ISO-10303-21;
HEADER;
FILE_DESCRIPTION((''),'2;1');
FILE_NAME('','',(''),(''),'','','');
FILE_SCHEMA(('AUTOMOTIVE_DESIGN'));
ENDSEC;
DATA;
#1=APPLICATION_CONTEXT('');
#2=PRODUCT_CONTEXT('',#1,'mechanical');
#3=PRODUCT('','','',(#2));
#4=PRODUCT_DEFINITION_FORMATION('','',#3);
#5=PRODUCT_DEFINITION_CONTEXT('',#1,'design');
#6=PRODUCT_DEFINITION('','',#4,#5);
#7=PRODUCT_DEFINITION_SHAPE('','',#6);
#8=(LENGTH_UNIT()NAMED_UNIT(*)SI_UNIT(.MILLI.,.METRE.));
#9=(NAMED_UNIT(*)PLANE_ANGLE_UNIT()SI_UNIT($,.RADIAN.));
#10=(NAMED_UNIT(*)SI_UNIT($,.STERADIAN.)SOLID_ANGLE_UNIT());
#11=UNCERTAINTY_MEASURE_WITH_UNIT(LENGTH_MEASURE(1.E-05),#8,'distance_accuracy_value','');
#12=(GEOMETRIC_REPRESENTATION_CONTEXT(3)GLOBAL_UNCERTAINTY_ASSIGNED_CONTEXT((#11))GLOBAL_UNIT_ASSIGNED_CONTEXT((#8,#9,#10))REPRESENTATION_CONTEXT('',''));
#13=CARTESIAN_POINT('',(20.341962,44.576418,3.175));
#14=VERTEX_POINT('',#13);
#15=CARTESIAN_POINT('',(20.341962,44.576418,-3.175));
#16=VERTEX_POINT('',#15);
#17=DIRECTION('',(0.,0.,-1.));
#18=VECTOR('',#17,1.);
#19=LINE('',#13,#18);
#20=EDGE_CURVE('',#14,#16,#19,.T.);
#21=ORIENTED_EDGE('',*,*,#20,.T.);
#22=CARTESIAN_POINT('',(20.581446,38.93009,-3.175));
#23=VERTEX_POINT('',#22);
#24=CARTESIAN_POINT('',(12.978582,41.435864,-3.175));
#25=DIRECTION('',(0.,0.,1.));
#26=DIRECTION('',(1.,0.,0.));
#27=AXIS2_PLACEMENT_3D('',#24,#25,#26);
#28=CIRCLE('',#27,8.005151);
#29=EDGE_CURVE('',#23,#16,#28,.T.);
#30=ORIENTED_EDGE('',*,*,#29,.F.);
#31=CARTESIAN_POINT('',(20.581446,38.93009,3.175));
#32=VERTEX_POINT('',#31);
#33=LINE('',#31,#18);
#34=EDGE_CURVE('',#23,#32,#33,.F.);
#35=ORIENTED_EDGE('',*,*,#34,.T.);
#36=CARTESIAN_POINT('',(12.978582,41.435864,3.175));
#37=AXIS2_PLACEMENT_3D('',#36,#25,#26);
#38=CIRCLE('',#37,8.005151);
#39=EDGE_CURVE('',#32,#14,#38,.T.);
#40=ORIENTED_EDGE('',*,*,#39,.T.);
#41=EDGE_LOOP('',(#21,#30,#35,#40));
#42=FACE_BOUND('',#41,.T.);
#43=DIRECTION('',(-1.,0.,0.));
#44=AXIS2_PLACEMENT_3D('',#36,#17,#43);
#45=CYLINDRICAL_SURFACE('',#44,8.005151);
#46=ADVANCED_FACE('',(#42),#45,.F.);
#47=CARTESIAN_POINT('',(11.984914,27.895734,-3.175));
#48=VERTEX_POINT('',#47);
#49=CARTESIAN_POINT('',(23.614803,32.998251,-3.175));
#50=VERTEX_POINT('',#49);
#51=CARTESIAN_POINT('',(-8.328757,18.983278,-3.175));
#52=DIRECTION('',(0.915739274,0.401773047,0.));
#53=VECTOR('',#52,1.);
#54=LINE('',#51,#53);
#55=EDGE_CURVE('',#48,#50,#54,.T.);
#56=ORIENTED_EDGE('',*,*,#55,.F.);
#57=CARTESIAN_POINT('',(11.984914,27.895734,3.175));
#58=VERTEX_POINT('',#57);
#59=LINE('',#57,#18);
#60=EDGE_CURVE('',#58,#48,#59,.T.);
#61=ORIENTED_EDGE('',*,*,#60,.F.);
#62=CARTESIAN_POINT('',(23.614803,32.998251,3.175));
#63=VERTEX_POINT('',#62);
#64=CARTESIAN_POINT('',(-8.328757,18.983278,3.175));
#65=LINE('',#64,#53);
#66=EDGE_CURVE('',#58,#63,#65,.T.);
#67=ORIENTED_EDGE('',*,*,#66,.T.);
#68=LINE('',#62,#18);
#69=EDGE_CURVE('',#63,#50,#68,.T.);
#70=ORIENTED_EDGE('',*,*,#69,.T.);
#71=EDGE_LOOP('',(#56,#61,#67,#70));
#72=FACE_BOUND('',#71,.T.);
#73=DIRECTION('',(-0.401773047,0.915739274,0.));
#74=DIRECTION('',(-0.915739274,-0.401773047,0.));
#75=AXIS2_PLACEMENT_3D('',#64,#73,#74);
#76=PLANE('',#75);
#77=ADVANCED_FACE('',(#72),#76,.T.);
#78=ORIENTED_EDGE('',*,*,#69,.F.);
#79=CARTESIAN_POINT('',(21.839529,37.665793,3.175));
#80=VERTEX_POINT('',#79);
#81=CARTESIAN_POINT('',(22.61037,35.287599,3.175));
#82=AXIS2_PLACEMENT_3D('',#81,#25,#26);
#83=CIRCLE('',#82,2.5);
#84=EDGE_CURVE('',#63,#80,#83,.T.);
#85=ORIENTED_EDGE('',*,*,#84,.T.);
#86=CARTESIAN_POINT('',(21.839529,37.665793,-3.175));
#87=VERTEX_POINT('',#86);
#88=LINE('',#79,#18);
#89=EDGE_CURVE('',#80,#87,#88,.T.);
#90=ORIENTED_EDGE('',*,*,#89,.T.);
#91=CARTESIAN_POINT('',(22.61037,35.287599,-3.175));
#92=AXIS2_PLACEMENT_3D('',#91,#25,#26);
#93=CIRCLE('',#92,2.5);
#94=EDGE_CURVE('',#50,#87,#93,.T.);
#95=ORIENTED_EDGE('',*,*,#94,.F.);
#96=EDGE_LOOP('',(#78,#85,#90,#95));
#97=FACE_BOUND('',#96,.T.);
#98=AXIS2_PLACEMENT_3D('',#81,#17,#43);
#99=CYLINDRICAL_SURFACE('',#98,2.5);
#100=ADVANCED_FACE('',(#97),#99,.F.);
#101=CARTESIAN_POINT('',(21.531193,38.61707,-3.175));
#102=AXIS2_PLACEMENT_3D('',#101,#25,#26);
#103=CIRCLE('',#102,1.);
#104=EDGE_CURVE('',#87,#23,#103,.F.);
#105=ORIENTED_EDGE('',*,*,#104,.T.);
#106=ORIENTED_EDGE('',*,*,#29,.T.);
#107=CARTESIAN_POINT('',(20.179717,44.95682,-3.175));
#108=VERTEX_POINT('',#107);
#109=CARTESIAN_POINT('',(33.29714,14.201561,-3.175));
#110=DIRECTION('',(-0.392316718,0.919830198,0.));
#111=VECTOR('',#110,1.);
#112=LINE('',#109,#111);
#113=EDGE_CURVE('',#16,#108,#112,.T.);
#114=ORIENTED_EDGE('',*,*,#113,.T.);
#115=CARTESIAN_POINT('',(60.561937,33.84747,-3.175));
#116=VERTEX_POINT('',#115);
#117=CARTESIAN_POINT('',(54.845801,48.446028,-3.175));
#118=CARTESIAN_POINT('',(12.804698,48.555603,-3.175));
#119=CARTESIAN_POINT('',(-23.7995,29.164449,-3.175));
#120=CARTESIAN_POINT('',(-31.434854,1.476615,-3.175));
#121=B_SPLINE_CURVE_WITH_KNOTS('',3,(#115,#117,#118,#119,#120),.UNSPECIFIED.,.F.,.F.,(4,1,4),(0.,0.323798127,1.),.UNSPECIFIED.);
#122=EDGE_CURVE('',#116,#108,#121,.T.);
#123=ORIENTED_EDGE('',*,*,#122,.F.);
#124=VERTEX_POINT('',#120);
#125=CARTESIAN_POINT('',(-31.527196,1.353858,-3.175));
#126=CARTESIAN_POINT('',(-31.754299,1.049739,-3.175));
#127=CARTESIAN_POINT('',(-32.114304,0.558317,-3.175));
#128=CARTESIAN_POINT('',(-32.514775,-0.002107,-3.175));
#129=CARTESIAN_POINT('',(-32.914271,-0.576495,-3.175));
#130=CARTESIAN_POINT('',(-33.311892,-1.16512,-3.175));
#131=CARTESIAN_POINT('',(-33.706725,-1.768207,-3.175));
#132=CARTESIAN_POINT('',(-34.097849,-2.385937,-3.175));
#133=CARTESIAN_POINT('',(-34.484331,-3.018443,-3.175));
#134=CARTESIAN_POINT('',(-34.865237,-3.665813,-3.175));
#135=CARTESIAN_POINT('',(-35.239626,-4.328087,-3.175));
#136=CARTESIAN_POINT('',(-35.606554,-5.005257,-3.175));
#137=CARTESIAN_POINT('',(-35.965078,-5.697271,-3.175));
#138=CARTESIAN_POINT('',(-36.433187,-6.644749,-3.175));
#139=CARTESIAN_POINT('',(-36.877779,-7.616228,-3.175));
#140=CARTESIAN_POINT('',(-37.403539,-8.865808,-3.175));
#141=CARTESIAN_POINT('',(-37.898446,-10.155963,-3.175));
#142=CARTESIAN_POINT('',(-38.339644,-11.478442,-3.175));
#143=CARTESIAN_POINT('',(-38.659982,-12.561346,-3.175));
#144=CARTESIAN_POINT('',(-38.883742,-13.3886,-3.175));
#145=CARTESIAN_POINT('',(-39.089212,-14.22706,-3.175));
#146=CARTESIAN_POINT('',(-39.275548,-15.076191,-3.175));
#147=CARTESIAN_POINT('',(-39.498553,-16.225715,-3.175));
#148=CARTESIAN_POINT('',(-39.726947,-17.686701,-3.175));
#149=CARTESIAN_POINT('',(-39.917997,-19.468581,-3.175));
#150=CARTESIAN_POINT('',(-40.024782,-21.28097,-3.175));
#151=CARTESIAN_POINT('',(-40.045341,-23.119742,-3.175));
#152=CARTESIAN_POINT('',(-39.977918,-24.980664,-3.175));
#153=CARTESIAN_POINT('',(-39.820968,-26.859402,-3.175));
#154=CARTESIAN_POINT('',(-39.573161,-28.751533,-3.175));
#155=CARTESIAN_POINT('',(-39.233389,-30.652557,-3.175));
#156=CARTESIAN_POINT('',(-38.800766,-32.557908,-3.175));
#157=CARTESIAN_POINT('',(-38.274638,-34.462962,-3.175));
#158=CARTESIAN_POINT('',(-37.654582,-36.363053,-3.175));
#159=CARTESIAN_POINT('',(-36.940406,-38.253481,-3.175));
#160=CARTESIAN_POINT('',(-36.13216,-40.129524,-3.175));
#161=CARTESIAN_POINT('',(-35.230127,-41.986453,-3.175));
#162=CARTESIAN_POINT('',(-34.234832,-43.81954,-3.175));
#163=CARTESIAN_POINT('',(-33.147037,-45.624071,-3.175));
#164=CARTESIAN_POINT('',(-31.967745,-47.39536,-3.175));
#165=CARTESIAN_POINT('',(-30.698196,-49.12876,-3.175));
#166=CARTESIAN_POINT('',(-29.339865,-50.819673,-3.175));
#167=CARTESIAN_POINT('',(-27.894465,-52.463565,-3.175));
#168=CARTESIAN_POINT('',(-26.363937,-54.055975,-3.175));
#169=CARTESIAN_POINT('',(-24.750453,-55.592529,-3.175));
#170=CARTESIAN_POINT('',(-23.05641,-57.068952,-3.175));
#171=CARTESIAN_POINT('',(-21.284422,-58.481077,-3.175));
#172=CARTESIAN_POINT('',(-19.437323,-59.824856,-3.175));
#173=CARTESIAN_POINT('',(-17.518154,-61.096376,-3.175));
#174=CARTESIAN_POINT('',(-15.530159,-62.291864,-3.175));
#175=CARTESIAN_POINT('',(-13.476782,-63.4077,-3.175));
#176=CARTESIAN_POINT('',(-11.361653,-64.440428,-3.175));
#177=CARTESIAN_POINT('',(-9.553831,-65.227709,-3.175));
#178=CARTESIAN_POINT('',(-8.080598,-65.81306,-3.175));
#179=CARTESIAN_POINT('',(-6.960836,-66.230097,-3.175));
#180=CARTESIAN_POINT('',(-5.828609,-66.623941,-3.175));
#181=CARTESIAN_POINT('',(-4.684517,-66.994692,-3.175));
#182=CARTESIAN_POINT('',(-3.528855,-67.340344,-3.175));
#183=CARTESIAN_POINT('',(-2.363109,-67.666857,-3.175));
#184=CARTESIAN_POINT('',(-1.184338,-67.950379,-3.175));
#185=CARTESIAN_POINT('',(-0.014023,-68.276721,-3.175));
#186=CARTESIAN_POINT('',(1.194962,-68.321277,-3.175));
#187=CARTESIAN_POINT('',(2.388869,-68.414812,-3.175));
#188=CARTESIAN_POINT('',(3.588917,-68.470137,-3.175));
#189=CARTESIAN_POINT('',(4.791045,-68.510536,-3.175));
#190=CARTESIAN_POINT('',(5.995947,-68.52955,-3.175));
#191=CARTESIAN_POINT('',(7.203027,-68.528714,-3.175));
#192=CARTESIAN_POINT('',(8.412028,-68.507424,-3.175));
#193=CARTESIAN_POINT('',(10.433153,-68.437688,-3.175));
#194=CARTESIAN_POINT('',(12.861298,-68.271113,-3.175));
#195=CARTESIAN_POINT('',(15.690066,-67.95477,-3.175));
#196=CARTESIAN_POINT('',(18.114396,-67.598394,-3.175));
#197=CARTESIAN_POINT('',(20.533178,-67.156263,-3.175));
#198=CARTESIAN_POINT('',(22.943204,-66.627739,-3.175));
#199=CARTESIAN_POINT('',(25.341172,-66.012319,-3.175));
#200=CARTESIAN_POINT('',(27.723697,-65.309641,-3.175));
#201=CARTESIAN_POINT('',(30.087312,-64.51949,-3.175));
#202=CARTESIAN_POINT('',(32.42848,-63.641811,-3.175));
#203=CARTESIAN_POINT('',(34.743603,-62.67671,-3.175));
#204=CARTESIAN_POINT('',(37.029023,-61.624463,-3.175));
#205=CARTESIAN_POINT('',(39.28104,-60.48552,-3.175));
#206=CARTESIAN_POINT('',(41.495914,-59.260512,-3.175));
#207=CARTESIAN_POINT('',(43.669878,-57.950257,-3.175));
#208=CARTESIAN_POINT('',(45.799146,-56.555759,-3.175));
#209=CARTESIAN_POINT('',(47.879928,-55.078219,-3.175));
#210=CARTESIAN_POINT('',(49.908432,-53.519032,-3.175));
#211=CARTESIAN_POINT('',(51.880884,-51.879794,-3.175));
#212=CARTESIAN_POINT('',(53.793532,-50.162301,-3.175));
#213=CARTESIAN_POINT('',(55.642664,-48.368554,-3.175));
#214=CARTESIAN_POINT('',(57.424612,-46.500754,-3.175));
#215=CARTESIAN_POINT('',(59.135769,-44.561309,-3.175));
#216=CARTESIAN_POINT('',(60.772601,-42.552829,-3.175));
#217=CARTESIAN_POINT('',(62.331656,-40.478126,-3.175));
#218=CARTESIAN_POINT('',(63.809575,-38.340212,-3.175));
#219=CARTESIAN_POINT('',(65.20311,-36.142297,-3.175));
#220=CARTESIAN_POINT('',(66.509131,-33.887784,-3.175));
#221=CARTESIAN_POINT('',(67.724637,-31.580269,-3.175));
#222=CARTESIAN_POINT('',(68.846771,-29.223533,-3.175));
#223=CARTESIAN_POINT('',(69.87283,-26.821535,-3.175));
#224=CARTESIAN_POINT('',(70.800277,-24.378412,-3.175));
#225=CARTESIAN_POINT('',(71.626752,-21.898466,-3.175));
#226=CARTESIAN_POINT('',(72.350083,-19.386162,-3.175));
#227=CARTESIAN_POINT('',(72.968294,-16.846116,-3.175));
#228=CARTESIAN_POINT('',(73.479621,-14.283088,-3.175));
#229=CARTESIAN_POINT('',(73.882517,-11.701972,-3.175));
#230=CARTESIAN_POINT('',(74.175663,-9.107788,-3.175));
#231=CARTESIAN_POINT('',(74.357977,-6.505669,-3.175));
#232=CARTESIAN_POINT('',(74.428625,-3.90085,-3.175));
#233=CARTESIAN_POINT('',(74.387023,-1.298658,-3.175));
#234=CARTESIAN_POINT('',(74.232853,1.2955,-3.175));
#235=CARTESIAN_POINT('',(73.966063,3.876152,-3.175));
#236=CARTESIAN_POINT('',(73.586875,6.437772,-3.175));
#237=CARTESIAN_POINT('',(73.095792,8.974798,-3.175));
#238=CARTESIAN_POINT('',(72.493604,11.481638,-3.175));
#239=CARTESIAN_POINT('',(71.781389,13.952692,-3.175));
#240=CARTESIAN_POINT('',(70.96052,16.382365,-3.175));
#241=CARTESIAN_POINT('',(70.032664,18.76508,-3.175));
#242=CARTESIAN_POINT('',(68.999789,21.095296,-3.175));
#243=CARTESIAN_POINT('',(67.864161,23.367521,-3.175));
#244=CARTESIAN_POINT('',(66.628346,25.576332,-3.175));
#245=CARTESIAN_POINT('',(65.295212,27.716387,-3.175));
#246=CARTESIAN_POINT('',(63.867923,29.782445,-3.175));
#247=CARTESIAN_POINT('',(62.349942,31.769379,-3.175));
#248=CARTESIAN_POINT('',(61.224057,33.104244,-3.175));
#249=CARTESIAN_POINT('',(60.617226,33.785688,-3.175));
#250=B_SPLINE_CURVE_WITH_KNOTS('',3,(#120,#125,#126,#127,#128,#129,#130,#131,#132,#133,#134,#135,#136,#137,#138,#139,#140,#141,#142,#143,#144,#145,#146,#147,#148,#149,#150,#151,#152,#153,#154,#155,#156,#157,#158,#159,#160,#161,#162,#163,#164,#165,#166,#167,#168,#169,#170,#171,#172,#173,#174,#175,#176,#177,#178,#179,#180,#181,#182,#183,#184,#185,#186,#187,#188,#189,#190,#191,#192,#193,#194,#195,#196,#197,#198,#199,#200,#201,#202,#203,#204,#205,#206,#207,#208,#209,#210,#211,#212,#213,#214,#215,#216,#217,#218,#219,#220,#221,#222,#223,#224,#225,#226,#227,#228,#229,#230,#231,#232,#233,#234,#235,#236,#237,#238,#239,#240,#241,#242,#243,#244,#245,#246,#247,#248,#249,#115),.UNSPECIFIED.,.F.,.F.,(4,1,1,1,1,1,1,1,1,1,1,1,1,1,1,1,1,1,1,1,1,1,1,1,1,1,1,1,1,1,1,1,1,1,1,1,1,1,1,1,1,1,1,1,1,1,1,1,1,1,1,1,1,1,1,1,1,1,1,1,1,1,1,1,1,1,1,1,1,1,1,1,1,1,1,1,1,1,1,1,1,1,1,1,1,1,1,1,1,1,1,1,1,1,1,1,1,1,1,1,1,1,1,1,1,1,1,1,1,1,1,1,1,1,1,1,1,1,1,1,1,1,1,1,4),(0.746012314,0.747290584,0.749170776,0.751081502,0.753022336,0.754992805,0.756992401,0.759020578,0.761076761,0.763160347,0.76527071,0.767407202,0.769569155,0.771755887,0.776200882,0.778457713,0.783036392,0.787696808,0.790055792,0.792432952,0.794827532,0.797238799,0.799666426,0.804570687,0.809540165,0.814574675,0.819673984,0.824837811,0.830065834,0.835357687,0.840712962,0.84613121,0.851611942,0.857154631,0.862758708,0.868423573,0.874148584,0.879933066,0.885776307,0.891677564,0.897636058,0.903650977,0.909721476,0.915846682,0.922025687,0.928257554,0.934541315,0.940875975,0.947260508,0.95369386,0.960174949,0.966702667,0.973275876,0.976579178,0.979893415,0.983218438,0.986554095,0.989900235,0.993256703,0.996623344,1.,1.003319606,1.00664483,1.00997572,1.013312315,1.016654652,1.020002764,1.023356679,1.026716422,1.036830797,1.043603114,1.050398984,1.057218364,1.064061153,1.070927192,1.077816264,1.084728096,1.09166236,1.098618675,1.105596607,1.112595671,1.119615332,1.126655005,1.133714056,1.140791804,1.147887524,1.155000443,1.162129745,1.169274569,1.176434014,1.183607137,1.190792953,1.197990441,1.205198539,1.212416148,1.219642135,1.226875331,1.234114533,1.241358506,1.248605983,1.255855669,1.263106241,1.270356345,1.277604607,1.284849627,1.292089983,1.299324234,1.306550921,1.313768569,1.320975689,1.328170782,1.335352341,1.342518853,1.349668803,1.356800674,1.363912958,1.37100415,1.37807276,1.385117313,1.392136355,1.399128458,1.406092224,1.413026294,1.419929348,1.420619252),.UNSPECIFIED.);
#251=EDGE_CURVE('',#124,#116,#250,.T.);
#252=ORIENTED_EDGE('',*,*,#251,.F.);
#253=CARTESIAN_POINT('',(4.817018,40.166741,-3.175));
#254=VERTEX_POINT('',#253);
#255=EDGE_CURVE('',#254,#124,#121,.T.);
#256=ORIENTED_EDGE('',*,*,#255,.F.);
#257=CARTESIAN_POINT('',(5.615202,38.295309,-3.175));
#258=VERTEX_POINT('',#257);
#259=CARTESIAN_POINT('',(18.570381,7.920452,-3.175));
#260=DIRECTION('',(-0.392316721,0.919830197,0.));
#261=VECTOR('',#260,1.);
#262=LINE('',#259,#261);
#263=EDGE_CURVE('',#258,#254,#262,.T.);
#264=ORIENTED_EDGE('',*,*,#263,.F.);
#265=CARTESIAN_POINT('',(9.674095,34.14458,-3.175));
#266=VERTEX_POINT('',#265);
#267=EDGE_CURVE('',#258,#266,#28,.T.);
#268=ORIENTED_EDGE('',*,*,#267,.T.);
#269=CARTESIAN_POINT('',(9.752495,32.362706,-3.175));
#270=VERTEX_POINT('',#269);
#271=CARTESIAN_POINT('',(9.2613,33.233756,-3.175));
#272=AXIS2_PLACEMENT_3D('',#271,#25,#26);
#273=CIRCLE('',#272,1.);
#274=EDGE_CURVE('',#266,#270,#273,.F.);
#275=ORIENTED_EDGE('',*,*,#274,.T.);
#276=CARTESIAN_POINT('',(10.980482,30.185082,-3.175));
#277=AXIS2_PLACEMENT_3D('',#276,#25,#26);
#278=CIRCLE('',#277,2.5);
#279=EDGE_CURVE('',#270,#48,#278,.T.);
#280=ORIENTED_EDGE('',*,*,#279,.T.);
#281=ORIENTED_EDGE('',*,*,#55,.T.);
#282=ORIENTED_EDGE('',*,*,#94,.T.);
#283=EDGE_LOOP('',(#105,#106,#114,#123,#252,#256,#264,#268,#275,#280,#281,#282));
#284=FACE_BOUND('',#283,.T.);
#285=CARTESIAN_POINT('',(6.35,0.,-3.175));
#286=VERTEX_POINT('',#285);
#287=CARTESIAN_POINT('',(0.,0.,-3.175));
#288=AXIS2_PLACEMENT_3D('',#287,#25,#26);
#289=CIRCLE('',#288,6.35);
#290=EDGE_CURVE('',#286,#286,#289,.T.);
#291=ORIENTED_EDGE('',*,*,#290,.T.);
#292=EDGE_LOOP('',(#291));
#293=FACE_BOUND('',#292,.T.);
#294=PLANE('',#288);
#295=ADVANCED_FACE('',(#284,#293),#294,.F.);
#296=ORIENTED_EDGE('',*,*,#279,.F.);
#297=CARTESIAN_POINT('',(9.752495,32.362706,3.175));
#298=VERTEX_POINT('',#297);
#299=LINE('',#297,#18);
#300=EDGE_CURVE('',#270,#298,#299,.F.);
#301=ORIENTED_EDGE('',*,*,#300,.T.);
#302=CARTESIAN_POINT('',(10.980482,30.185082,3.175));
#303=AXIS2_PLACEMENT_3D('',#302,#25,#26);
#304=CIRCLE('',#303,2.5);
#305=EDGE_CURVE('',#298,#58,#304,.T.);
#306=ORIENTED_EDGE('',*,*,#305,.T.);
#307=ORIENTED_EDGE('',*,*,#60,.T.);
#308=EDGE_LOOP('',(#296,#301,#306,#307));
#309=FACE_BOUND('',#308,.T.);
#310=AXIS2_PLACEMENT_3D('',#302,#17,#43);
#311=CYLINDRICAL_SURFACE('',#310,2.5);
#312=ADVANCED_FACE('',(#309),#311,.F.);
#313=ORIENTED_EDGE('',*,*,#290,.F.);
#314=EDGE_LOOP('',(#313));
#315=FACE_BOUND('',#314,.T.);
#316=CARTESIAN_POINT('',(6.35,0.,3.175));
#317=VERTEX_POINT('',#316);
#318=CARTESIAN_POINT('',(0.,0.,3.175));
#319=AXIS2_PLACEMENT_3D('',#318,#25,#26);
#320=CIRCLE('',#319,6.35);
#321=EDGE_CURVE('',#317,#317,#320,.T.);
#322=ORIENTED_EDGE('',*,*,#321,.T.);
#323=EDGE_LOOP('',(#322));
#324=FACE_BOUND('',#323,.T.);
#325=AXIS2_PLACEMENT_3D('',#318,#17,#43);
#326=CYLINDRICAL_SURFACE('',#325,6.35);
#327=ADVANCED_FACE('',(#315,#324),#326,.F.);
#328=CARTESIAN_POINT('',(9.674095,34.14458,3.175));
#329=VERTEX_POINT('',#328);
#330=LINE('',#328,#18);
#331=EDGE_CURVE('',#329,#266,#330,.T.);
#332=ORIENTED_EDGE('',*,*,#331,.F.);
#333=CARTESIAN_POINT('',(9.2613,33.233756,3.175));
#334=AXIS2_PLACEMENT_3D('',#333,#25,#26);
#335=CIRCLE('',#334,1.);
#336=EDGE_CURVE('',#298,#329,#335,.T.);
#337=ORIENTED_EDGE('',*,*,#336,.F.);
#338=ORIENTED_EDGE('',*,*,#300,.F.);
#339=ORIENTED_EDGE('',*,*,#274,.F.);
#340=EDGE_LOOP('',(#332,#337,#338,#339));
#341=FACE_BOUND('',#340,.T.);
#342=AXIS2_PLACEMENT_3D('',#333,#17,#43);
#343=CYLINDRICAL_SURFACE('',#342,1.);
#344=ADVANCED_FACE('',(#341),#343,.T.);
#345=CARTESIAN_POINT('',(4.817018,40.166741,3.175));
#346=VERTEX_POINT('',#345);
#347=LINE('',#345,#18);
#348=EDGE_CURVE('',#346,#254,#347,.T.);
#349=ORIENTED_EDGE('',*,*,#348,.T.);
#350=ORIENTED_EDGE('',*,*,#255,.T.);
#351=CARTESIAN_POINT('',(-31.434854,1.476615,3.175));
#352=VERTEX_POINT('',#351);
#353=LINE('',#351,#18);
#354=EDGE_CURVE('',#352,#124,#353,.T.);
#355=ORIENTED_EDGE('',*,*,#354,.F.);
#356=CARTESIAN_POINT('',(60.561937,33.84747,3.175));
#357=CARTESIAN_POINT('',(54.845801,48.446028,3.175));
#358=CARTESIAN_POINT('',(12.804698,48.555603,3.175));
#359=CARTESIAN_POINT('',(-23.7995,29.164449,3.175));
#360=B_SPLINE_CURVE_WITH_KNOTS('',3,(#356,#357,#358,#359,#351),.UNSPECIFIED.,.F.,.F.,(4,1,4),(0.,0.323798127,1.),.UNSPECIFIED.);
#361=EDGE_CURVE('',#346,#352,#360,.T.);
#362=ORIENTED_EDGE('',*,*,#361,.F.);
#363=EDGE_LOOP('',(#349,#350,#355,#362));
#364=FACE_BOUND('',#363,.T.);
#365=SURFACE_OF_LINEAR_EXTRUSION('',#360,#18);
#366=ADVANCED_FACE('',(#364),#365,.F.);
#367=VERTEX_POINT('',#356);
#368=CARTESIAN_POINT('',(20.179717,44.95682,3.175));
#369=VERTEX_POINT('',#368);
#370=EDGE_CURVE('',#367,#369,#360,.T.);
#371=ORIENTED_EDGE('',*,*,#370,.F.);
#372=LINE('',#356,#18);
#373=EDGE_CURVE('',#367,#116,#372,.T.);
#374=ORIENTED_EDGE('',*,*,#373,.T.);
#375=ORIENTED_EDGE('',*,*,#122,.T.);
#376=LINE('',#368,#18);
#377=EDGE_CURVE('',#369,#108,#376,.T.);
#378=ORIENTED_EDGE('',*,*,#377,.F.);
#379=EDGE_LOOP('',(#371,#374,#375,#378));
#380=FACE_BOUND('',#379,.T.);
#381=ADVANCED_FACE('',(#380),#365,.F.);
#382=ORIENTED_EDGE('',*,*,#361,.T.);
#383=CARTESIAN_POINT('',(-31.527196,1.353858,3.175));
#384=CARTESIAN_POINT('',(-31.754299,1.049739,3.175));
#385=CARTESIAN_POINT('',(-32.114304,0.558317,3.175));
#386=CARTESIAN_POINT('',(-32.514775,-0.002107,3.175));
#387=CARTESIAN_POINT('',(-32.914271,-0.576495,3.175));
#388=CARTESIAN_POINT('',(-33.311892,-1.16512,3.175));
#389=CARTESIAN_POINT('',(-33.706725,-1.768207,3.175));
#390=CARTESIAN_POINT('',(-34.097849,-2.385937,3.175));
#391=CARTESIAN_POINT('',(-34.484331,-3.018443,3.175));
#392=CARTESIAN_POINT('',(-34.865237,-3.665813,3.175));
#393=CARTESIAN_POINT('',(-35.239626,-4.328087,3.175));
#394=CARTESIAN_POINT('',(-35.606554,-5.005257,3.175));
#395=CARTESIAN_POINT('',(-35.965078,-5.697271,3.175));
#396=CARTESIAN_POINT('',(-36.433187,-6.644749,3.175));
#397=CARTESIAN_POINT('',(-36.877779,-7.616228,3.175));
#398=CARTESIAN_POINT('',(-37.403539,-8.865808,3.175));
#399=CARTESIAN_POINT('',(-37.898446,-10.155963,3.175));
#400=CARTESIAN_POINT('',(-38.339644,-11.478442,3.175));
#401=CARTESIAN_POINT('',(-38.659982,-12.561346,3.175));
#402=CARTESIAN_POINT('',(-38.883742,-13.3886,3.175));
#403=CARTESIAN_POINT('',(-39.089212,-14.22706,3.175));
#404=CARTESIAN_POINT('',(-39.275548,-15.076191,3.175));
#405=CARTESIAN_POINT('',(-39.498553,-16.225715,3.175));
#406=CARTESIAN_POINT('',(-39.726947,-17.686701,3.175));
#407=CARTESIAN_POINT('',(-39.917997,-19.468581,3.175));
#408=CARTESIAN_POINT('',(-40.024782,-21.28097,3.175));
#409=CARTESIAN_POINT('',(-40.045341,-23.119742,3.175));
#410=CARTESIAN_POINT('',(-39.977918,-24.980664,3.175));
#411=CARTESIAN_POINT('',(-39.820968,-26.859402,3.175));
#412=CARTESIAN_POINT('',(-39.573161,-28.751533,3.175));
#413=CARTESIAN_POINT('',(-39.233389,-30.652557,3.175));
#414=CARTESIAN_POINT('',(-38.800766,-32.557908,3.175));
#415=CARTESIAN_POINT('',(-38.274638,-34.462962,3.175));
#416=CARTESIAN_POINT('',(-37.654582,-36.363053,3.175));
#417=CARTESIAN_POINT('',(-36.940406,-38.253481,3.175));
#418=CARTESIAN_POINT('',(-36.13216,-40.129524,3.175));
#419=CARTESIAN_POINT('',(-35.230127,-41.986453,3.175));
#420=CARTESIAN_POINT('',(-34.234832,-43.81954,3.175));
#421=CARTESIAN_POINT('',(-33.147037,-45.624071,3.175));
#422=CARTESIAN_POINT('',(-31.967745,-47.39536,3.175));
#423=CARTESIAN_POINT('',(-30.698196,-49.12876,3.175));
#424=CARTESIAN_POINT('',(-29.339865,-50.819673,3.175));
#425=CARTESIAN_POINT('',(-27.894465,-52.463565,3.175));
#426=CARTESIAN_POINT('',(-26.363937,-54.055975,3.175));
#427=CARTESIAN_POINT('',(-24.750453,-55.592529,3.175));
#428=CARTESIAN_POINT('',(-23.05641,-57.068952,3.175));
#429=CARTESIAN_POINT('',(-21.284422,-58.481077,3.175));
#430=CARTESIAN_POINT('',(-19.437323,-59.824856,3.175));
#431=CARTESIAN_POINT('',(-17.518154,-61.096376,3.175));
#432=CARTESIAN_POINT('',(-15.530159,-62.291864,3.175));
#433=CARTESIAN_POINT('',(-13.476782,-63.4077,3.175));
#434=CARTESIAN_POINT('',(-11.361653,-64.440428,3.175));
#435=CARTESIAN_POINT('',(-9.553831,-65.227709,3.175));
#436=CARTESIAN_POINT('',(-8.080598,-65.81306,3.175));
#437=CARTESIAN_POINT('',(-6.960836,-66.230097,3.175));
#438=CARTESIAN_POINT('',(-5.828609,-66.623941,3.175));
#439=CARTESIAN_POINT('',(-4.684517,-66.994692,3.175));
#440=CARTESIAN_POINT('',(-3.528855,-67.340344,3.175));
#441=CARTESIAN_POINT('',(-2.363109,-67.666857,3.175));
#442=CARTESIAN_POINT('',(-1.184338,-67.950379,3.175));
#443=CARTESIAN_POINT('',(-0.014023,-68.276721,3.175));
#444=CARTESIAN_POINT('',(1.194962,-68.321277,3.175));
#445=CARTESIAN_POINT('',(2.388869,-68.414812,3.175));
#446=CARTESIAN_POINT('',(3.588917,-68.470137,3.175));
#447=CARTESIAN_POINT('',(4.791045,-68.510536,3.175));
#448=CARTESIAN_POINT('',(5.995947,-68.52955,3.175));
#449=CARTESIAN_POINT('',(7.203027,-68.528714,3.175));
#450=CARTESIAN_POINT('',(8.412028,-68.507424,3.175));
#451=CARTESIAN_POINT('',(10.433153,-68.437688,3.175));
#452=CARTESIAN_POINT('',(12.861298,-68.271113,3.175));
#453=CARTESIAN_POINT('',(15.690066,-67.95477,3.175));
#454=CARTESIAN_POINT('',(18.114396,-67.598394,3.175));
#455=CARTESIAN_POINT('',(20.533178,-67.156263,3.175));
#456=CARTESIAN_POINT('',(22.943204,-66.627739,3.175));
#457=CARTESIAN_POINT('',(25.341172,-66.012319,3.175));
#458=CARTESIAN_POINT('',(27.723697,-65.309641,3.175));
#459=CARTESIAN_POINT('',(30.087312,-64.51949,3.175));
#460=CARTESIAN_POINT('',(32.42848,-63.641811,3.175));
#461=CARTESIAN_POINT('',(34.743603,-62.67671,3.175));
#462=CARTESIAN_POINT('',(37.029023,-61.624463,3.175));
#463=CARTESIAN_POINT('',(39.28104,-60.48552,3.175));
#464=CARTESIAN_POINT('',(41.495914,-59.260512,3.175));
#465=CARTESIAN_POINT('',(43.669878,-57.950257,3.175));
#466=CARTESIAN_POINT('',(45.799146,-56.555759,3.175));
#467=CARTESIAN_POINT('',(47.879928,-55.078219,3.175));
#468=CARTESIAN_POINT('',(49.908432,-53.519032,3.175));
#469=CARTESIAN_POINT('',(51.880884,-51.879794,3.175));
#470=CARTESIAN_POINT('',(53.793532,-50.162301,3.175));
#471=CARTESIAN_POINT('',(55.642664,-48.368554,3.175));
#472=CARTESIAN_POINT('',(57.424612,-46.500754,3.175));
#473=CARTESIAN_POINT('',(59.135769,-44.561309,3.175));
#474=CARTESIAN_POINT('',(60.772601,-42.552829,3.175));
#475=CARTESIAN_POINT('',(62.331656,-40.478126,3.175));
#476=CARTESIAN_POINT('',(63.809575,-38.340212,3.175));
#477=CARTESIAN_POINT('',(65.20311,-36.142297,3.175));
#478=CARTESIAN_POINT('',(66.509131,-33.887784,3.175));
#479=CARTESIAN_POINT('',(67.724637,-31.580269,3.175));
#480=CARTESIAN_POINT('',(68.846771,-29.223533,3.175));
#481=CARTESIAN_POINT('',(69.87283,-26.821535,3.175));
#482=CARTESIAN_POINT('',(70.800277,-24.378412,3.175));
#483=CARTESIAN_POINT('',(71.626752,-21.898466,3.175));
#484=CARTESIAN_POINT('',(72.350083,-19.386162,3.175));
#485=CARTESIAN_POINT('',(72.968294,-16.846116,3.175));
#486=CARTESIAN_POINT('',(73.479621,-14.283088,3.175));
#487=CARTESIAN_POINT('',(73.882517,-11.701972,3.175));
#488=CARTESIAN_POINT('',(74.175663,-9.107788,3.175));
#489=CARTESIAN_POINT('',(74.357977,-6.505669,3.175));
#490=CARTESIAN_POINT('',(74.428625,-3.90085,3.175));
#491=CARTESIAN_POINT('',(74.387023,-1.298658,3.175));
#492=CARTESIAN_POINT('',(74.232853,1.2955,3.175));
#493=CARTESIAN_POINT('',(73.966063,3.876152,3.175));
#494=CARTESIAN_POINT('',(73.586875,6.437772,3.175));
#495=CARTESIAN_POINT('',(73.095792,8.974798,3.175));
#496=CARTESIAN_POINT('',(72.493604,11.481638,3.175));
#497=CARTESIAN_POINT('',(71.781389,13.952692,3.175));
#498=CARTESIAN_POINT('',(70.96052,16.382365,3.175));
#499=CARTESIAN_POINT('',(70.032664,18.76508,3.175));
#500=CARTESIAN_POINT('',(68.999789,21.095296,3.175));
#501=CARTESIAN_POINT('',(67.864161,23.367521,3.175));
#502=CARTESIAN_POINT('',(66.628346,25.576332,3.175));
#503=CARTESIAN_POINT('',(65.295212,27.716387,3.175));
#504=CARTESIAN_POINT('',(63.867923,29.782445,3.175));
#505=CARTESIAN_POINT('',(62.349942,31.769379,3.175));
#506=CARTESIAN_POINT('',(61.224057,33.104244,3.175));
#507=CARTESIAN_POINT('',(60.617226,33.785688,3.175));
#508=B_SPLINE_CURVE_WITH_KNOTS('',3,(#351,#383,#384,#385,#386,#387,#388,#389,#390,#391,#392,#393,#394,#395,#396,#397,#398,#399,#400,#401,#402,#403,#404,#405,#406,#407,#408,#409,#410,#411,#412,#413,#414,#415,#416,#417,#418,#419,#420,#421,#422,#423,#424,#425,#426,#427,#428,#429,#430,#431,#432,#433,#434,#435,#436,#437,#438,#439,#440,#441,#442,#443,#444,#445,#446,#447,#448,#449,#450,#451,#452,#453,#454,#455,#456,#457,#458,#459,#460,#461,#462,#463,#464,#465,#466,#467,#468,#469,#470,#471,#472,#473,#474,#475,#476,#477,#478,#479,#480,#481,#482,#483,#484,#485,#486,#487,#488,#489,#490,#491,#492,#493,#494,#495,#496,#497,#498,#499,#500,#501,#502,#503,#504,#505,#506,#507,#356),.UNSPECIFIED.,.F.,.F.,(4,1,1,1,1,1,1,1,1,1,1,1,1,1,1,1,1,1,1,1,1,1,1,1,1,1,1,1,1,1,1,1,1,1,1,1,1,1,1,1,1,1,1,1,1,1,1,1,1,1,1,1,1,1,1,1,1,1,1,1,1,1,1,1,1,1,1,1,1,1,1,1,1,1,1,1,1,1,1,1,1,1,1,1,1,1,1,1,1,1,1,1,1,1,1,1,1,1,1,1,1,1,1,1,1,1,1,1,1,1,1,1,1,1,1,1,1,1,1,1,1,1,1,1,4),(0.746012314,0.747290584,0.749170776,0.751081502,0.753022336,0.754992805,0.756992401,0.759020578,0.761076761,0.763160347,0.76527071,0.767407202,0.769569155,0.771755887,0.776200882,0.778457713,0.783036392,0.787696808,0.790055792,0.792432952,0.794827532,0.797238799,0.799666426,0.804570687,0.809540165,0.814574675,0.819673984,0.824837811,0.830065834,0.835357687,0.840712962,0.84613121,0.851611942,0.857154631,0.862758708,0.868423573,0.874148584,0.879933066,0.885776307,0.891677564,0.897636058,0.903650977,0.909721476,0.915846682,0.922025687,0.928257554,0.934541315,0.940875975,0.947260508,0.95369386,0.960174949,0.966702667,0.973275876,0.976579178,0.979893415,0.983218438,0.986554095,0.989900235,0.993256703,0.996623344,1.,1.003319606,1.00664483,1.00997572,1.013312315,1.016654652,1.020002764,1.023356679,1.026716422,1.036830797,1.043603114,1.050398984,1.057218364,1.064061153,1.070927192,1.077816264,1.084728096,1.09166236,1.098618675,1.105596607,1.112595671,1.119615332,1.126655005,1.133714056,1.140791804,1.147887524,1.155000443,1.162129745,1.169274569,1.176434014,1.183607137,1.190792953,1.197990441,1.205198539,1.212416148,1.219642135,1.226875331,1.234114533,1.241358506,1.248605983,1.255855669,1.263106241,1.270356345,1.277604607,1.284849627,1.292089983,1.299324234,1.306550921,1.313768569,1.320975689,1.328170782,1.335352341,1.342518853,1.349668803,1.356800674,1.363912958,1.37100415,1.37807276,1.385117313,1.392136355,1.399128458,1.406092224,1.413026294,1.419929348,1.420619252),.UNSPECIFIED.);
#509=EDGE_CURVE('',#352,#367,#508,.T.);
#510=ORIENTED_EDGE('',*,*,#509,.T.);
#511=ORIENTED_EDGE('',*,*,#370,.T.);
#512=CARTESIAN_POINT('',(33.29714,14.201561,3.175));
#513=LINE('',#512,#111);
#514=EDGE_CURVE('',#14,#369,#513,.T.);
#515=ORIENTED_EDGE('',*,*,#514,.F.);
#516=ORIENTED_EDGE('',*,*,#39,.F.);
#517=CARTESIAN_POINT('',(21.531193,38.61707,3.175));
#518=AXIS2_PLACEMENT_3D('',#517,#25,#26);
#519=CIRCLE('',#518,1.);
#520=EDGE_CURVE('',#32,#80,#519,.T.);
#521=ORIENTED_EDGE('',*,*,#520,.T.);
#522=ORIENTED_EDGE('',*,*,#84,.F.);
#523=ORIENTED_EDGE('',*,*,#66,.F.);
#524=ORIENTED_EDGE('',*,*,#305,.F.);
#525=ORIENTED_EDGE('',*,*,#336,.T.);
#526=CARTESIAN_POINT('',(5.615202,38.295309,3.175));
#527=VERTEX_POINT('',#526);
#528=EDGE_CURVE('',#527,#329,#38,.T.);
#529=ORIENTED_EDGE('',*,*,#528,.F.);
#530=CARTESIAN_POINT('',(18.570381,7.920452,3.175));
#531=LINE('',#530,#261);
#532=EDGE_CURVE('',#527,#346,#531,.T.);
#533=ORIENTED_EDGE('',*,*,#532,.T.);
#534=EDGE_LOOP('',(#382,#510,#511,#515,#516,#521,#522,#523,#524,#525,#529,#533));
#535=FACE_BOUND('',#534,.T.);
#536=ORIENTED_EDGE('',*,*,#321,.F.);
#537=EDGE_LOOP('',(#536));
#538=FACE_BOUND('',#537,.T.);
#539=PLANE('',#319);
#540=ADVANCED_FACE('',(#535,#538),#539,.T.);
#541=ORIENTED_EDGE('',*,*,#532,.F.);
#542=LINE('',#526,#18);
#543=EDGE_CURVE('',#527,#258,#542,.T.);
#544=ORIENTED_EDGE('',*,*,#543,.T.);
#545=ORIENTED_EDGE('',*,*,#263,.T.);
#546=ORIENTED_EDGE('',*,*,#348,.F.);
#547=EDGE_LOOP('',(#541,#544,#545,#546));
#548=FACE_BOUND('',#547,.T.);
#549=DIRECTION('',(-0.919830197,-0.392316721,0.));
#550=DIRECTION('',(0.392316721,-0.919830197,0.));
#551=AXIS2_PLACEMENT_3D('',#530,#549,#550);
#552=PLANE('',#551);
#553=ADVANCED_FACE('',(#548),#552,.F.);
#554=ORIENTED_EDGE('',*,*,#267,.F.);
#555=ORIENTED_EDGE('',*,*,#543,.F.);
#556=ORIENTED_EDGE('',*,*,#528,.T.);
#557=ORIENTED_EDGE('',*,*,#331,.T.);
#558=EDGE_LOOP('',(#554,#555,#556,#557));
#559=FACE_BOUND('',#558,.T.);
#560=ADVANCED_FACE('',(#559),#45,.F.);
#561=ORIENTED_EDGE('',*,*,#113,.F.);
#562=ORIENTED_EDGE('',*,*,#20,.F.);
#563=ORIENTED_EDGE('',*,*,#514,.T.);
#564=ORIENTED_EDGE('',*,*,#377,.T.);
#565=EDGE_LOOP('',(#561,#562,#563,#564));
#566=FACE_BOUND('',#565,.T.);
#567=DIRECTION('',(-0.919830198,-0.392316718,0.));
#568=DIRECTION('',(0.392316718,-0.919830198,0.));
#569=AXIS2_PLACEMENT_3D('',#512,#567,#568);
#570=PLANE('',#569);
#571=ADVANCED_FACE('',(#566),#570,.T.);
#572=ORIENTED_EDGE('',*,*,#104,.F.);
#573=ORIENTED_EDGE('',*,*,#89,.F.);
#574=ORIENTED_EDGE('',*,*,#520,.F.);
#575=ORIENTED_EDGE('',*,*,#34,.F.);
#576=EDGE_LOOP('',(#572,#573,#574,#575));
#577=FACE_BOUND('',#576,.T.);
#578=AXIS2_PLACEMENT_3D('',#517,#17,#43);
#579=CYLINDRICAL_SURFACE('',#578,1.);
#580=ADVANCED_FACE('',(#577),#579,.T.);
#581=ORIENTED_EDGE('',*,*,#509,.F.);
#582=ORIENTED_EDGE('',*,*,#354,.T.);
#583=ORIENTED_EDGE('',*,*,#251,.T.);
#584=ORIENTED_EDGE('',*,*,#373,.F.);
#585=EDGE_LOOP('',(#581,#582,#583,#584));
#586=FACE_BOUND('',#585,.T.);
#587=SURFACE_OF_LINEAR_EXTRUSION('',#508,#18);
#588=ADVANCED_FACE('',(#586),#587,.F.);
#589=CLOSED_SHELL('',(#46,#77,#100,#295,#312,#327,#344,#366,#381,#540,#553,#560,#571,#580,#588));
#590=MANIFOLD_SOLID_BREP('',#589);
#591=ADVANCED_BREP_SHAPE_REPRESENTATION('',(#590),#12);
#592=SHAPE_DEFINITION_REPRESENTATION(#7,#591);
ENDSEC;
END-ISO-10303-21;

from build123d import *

# Parameters (mm, degrees)
SKETCH1_R           = 6.35
BOSS_EXTRUDE1_DEPTH = 3.175
FILLET3_R           = 1


with BuildPart() as part:
    # Sketch1 → Boss-Extrude1 (new body, symmetric)
    with BuildSketch(Plane.XY):
        with BuildLine():
            ThreePointArc((11.984914181, 27.895733584), (8.691133377, 29.180649151), (9.976048944, 32.474429955))
            Line((9.976048944, 32.474429955), (12.234616787, 33.465357952))
            ThreePointArc((12.234616787, 33.465357952), (8.260068693, 34.969173795), (5.615202157, 38.295309036))
            Line((5.615202157, 38.295309036), (4.817017743, 40.166741189))
            add(Edge.make_bspline(
                [(4.817017743, 40.166741189), (-12.318313017, 33.133186073), (-26.082330189, 20.886296157), (-31.434854064, 1.476615471)],
                knots=[0.525970045, 0.525970045, 0.525970045, 0.525970045, 1, 1, 1, 1], degree=3))
            add(Edge.make_bspline(
                [(-31.434854064, 1.476615471), (-31.527195505, 1.353858054), (-31.754298965, 1.049739376), (-32.114304, 0.558316675), (-32.5147745, -0.002107391), (-32.914270808, -0.576495389), (-33.311891924, -1.165119679), (-33.706725269, -1.768206694), (-34.097848502, -2.385936616), (-34.484331346, -3.018443117), (-34.865237427, -3.665813149), (-35.239626109, -4.328086807), (-35.606554333, -5.005257241), (-35.965078463, -5.697270632), (-36.433186951, -6.644749058), (-36.877778588, -7.616227649), (-37.403538549, -8.865808487), (-37.89844649, -10.15596349), (-38.339644059, -11.47844157), (-38.659981536, -12.561345718), (-38.883742195, -13.388599922), (-39.089211509, -14.227060001), (-39.27554788, -15.076191498), (-39.498552768, -16.225715183), (-39.726946666, -17.686700696), (-39.917996988, -19.468580741), (-40.024782444, -21.280969713), (-40.045341441, -23.119742437), (-39.9779185, -24.980664299), (-39.820968297, -26.859401742), (-39.573161339, -28.751532609), (-39.233388685, -30.652556865), (-38.800766241, -32.557907545), (-38.274638487, -34.462961931), (-37.654581673, -36.363052938), (-36.940406441, -38.253480666), (-36.132159895, -40.129524105), (-35.230127076, -41.986452952), (-34.234831872, -43.819539532), (-33.147037329, -45.624070773), (-31.967745371, -47.395360218), (-30.69819593, -49.128760047), (-29.339865478, -50.819673076), (-27.894464961, -52.463564698), (-26.363937143, -54.055974755), (-24.750453354, -55.592529291), (-23.05640966, -57.068952172), (-21.284422438, -58.481076539), (-19.437323392, -59.824856061), (-17.518153991, -61.09637597), (-15.53015936, -62.291863846), (-13.476781624, -63.407700126), (-11.361652741, -64.440428475), (-9.553831313, -65.227709289), (-8.080597677, -65.813060218), (-6.960835983, -66.230097397), (-5.828609099, -66.623940834), (-4.684517393, -66.994692102), (-3.528855098, -67.340343758), (-2.363108933, -67.666857115), (-1.184337898, -67.950379167), (-0.01402302, -68.276721004), (1.19496178, -68.321277307), (2.388869047, -68.414812178), (3.588916798, -68.47013668), (4.791045471, -68.510536097), (5.995946941, -68.529549806), (7.203027199, -68.528714145), (8.412028292, -68.507423656), (10.433152978, -68.437688056), (12.861297544, -68.271113035), (15.690066279, -67.954769994), (18.114395708, -67.598393542), (20.533178068, -67.156262739), (22.94320403, -66.627739384), (25.34117249, -66.012319379), (27.72369681, -65.309640519), (30.087311662, -64.519489877), (32.428480366, -63.641810853), (34.743602713, -62.676709846), (37.029023257, -61.624462503), (39.281040057, -60.485519541), (41.495913836, -59.26051209), (43.669877536, -57.950256553), (45.799146255, -56.555758944), (47.879927513, -55.078218686), (49.908431845, -53.519031845), (51.880883673, -51.879793783), (53.793532432, -50.162301209), (55.642663916, -48.368553607), (57.424611814, -46.500754037), (59.135769398, -44.561309278), (60.772601325, -42.552829318), (62.331655529, -40.478126172), (63.809575152, -38.340212016), (65.203110484, -36.142296645), (66.509130877, -33.887784231), (67.724636585, -31.580269399), (68.846770509, -29.223532602), (69.872829789, -26.821534809), (70.800277214, -24.378411507), (71.626752419, -21.898466018), (72.350082814, -19.386162143), (72.968294223, -16.846116143), (73.479621181, -14.283088065), (73.882516868, -11.701972429), (74.175662624, -9.107788295), (74.35797703, -6.505668721), (74.428624501, -3.900849636), (74.387023371, -1.298658146), (74.232853422, 1.295499691), (73.966062842, 3.876151621), (73.586874568, 6.437772425), (73.095791985, 8.974797617), (72.493603959, 11.481637571), (71.781389173, 13.952692039), (70.960519734, 16.382365041), (70.032664043, 18.765080076), (68.999788887, 21.095295628), (67.864160745, 23.367520924), (66.628346286, 25.576331908), (65.295212039, 27.716387387), (63.867923223, 29.782445306), (62.349941726, 31.769379124), (61.22405744, 33.104244186), (60.617225546, 33.785688077), (60.561937131, 33.847469547)],
                knots=[0.746012314, 0.746012314, 0.746012314, 0.746012314, 0.747290584, 0.749170776, 0.751081502, 0.753022336, 0.754992805, 0.756992401, 0.759020578, 0.761076761, 0.763160347, 0.76527071, 0.767407202, 0.769569155, 0.771755887, 0.776200882, 0.778457713, 0.783036392, 0.787696808, 0.790055792, 0.792432952, 0.794827532, 0.797238799, 0.799666426, 0.804570687, 0.809540165, 0.814574675, 0.819673984, 0.824837811, 0.830065834, 0.835357687, 0.840712962, 0.84613121, 0.851611942, 0.857154631, 0.862758708, 0.868423573, 0.874148584, 0.879933066, 0.885776307, 0.891677564, 0.897636058, 0.903650977, 0.909721476, 0.915846682, 0.922025687, 0.928257554, 0.934541315, 0.940875975, 0.947260508, 0.95369386, 0.960174949, 0.966702667, 0.973275876, 0.976579178, 0.979893415, 0.983218438, 0.986554095, 0.989900235, 0.993256703, 0.996623344, 1, 1.003319606, 1.00664483, 1.00997572, 1.013312315, 1.016654652, 1.020002764, 1.023356679, 1.026716422, 1.036830797, 1.043603114, 1.050398984, 1.057218364, 1.064061153, 1.070927192, 1.077816264, 1.084728096, 1.09166236, 1.098618675, 1.105596607, 1.112595671, 1.119615332, 1.126655005, 1.133714056, 1.140791804, 1.147887524, 1.155000443, 1.162129745, 1.169274569, 1.176434014, 1.183607137, 1.190792953, 1.197990441, 1.205198539, 1.212416148, 1.219642135, 1.226875331, 1.234114533, 1.241358506, 1.248605983, 1.255855669, 1.263106241, 1.270356345, 1.277604607, 1.284849627, 1.292089983, 1.299324234, 1.306550921, 1.313768569, 1.320975689, 1.328170782, 1.335352341, 1.342518853, 1.349668803, 1.356800674, 1.363912958, 1.37100415, 1.37807276, 1.385117313, 1.392136355, 1.399128458, 1.406092224, 1.413026294, 1.419929348, 1.420619252, 1.420619252, 1.420619252, 1.420619252], degree=3))
            add(Edge.make_bspline(
                [(60.561937131, 33.847469547), (54.845801337, 48.446027811), (38.415683117, 48.488850835), (22.815960401, 45.553267169), (20.179716664, 44.956820308)],
                knots=[0, 0, 0, 0, 0.323798127, 0.390810822, 0.390810822, 0.390810822, 0.390810822], degree=3))
            Line((20.179716664, 44.956820308), (20.341961861, 44.576418389))
            ThreePointArc((20.341961861, 44.576418389), (20.922430294, 40.447066038), (19.347369883, 36.586019659))
            Line((19.347369883, 36.586019659), (21.605937727, 37.576947657))
            ThreePointArc((21.605937727, 37.576947657), (24.899718531, 36.29203209), (23.614802964, 32.998251286))
            Line((23.614802964, 32.998251286), (11.984914181, 27.895733584))
        make_face()
        Circle(SKETCH1_R, mode=Mode.SUBTRACT)
    extrude(amount=BOSS_EXTRUDE1_DEPTH, both=True)

    # Fillet3
    fillet3_edges = [part.edges().sort_by_distance(p)[0] for p in [
        (12.234616787, 33.465357952, 0),
        (19.347369883, 36.586019659, 0),
    ]]
    fillet(fillet3_edges, radius=FILLET3_R)


solid = part.part
